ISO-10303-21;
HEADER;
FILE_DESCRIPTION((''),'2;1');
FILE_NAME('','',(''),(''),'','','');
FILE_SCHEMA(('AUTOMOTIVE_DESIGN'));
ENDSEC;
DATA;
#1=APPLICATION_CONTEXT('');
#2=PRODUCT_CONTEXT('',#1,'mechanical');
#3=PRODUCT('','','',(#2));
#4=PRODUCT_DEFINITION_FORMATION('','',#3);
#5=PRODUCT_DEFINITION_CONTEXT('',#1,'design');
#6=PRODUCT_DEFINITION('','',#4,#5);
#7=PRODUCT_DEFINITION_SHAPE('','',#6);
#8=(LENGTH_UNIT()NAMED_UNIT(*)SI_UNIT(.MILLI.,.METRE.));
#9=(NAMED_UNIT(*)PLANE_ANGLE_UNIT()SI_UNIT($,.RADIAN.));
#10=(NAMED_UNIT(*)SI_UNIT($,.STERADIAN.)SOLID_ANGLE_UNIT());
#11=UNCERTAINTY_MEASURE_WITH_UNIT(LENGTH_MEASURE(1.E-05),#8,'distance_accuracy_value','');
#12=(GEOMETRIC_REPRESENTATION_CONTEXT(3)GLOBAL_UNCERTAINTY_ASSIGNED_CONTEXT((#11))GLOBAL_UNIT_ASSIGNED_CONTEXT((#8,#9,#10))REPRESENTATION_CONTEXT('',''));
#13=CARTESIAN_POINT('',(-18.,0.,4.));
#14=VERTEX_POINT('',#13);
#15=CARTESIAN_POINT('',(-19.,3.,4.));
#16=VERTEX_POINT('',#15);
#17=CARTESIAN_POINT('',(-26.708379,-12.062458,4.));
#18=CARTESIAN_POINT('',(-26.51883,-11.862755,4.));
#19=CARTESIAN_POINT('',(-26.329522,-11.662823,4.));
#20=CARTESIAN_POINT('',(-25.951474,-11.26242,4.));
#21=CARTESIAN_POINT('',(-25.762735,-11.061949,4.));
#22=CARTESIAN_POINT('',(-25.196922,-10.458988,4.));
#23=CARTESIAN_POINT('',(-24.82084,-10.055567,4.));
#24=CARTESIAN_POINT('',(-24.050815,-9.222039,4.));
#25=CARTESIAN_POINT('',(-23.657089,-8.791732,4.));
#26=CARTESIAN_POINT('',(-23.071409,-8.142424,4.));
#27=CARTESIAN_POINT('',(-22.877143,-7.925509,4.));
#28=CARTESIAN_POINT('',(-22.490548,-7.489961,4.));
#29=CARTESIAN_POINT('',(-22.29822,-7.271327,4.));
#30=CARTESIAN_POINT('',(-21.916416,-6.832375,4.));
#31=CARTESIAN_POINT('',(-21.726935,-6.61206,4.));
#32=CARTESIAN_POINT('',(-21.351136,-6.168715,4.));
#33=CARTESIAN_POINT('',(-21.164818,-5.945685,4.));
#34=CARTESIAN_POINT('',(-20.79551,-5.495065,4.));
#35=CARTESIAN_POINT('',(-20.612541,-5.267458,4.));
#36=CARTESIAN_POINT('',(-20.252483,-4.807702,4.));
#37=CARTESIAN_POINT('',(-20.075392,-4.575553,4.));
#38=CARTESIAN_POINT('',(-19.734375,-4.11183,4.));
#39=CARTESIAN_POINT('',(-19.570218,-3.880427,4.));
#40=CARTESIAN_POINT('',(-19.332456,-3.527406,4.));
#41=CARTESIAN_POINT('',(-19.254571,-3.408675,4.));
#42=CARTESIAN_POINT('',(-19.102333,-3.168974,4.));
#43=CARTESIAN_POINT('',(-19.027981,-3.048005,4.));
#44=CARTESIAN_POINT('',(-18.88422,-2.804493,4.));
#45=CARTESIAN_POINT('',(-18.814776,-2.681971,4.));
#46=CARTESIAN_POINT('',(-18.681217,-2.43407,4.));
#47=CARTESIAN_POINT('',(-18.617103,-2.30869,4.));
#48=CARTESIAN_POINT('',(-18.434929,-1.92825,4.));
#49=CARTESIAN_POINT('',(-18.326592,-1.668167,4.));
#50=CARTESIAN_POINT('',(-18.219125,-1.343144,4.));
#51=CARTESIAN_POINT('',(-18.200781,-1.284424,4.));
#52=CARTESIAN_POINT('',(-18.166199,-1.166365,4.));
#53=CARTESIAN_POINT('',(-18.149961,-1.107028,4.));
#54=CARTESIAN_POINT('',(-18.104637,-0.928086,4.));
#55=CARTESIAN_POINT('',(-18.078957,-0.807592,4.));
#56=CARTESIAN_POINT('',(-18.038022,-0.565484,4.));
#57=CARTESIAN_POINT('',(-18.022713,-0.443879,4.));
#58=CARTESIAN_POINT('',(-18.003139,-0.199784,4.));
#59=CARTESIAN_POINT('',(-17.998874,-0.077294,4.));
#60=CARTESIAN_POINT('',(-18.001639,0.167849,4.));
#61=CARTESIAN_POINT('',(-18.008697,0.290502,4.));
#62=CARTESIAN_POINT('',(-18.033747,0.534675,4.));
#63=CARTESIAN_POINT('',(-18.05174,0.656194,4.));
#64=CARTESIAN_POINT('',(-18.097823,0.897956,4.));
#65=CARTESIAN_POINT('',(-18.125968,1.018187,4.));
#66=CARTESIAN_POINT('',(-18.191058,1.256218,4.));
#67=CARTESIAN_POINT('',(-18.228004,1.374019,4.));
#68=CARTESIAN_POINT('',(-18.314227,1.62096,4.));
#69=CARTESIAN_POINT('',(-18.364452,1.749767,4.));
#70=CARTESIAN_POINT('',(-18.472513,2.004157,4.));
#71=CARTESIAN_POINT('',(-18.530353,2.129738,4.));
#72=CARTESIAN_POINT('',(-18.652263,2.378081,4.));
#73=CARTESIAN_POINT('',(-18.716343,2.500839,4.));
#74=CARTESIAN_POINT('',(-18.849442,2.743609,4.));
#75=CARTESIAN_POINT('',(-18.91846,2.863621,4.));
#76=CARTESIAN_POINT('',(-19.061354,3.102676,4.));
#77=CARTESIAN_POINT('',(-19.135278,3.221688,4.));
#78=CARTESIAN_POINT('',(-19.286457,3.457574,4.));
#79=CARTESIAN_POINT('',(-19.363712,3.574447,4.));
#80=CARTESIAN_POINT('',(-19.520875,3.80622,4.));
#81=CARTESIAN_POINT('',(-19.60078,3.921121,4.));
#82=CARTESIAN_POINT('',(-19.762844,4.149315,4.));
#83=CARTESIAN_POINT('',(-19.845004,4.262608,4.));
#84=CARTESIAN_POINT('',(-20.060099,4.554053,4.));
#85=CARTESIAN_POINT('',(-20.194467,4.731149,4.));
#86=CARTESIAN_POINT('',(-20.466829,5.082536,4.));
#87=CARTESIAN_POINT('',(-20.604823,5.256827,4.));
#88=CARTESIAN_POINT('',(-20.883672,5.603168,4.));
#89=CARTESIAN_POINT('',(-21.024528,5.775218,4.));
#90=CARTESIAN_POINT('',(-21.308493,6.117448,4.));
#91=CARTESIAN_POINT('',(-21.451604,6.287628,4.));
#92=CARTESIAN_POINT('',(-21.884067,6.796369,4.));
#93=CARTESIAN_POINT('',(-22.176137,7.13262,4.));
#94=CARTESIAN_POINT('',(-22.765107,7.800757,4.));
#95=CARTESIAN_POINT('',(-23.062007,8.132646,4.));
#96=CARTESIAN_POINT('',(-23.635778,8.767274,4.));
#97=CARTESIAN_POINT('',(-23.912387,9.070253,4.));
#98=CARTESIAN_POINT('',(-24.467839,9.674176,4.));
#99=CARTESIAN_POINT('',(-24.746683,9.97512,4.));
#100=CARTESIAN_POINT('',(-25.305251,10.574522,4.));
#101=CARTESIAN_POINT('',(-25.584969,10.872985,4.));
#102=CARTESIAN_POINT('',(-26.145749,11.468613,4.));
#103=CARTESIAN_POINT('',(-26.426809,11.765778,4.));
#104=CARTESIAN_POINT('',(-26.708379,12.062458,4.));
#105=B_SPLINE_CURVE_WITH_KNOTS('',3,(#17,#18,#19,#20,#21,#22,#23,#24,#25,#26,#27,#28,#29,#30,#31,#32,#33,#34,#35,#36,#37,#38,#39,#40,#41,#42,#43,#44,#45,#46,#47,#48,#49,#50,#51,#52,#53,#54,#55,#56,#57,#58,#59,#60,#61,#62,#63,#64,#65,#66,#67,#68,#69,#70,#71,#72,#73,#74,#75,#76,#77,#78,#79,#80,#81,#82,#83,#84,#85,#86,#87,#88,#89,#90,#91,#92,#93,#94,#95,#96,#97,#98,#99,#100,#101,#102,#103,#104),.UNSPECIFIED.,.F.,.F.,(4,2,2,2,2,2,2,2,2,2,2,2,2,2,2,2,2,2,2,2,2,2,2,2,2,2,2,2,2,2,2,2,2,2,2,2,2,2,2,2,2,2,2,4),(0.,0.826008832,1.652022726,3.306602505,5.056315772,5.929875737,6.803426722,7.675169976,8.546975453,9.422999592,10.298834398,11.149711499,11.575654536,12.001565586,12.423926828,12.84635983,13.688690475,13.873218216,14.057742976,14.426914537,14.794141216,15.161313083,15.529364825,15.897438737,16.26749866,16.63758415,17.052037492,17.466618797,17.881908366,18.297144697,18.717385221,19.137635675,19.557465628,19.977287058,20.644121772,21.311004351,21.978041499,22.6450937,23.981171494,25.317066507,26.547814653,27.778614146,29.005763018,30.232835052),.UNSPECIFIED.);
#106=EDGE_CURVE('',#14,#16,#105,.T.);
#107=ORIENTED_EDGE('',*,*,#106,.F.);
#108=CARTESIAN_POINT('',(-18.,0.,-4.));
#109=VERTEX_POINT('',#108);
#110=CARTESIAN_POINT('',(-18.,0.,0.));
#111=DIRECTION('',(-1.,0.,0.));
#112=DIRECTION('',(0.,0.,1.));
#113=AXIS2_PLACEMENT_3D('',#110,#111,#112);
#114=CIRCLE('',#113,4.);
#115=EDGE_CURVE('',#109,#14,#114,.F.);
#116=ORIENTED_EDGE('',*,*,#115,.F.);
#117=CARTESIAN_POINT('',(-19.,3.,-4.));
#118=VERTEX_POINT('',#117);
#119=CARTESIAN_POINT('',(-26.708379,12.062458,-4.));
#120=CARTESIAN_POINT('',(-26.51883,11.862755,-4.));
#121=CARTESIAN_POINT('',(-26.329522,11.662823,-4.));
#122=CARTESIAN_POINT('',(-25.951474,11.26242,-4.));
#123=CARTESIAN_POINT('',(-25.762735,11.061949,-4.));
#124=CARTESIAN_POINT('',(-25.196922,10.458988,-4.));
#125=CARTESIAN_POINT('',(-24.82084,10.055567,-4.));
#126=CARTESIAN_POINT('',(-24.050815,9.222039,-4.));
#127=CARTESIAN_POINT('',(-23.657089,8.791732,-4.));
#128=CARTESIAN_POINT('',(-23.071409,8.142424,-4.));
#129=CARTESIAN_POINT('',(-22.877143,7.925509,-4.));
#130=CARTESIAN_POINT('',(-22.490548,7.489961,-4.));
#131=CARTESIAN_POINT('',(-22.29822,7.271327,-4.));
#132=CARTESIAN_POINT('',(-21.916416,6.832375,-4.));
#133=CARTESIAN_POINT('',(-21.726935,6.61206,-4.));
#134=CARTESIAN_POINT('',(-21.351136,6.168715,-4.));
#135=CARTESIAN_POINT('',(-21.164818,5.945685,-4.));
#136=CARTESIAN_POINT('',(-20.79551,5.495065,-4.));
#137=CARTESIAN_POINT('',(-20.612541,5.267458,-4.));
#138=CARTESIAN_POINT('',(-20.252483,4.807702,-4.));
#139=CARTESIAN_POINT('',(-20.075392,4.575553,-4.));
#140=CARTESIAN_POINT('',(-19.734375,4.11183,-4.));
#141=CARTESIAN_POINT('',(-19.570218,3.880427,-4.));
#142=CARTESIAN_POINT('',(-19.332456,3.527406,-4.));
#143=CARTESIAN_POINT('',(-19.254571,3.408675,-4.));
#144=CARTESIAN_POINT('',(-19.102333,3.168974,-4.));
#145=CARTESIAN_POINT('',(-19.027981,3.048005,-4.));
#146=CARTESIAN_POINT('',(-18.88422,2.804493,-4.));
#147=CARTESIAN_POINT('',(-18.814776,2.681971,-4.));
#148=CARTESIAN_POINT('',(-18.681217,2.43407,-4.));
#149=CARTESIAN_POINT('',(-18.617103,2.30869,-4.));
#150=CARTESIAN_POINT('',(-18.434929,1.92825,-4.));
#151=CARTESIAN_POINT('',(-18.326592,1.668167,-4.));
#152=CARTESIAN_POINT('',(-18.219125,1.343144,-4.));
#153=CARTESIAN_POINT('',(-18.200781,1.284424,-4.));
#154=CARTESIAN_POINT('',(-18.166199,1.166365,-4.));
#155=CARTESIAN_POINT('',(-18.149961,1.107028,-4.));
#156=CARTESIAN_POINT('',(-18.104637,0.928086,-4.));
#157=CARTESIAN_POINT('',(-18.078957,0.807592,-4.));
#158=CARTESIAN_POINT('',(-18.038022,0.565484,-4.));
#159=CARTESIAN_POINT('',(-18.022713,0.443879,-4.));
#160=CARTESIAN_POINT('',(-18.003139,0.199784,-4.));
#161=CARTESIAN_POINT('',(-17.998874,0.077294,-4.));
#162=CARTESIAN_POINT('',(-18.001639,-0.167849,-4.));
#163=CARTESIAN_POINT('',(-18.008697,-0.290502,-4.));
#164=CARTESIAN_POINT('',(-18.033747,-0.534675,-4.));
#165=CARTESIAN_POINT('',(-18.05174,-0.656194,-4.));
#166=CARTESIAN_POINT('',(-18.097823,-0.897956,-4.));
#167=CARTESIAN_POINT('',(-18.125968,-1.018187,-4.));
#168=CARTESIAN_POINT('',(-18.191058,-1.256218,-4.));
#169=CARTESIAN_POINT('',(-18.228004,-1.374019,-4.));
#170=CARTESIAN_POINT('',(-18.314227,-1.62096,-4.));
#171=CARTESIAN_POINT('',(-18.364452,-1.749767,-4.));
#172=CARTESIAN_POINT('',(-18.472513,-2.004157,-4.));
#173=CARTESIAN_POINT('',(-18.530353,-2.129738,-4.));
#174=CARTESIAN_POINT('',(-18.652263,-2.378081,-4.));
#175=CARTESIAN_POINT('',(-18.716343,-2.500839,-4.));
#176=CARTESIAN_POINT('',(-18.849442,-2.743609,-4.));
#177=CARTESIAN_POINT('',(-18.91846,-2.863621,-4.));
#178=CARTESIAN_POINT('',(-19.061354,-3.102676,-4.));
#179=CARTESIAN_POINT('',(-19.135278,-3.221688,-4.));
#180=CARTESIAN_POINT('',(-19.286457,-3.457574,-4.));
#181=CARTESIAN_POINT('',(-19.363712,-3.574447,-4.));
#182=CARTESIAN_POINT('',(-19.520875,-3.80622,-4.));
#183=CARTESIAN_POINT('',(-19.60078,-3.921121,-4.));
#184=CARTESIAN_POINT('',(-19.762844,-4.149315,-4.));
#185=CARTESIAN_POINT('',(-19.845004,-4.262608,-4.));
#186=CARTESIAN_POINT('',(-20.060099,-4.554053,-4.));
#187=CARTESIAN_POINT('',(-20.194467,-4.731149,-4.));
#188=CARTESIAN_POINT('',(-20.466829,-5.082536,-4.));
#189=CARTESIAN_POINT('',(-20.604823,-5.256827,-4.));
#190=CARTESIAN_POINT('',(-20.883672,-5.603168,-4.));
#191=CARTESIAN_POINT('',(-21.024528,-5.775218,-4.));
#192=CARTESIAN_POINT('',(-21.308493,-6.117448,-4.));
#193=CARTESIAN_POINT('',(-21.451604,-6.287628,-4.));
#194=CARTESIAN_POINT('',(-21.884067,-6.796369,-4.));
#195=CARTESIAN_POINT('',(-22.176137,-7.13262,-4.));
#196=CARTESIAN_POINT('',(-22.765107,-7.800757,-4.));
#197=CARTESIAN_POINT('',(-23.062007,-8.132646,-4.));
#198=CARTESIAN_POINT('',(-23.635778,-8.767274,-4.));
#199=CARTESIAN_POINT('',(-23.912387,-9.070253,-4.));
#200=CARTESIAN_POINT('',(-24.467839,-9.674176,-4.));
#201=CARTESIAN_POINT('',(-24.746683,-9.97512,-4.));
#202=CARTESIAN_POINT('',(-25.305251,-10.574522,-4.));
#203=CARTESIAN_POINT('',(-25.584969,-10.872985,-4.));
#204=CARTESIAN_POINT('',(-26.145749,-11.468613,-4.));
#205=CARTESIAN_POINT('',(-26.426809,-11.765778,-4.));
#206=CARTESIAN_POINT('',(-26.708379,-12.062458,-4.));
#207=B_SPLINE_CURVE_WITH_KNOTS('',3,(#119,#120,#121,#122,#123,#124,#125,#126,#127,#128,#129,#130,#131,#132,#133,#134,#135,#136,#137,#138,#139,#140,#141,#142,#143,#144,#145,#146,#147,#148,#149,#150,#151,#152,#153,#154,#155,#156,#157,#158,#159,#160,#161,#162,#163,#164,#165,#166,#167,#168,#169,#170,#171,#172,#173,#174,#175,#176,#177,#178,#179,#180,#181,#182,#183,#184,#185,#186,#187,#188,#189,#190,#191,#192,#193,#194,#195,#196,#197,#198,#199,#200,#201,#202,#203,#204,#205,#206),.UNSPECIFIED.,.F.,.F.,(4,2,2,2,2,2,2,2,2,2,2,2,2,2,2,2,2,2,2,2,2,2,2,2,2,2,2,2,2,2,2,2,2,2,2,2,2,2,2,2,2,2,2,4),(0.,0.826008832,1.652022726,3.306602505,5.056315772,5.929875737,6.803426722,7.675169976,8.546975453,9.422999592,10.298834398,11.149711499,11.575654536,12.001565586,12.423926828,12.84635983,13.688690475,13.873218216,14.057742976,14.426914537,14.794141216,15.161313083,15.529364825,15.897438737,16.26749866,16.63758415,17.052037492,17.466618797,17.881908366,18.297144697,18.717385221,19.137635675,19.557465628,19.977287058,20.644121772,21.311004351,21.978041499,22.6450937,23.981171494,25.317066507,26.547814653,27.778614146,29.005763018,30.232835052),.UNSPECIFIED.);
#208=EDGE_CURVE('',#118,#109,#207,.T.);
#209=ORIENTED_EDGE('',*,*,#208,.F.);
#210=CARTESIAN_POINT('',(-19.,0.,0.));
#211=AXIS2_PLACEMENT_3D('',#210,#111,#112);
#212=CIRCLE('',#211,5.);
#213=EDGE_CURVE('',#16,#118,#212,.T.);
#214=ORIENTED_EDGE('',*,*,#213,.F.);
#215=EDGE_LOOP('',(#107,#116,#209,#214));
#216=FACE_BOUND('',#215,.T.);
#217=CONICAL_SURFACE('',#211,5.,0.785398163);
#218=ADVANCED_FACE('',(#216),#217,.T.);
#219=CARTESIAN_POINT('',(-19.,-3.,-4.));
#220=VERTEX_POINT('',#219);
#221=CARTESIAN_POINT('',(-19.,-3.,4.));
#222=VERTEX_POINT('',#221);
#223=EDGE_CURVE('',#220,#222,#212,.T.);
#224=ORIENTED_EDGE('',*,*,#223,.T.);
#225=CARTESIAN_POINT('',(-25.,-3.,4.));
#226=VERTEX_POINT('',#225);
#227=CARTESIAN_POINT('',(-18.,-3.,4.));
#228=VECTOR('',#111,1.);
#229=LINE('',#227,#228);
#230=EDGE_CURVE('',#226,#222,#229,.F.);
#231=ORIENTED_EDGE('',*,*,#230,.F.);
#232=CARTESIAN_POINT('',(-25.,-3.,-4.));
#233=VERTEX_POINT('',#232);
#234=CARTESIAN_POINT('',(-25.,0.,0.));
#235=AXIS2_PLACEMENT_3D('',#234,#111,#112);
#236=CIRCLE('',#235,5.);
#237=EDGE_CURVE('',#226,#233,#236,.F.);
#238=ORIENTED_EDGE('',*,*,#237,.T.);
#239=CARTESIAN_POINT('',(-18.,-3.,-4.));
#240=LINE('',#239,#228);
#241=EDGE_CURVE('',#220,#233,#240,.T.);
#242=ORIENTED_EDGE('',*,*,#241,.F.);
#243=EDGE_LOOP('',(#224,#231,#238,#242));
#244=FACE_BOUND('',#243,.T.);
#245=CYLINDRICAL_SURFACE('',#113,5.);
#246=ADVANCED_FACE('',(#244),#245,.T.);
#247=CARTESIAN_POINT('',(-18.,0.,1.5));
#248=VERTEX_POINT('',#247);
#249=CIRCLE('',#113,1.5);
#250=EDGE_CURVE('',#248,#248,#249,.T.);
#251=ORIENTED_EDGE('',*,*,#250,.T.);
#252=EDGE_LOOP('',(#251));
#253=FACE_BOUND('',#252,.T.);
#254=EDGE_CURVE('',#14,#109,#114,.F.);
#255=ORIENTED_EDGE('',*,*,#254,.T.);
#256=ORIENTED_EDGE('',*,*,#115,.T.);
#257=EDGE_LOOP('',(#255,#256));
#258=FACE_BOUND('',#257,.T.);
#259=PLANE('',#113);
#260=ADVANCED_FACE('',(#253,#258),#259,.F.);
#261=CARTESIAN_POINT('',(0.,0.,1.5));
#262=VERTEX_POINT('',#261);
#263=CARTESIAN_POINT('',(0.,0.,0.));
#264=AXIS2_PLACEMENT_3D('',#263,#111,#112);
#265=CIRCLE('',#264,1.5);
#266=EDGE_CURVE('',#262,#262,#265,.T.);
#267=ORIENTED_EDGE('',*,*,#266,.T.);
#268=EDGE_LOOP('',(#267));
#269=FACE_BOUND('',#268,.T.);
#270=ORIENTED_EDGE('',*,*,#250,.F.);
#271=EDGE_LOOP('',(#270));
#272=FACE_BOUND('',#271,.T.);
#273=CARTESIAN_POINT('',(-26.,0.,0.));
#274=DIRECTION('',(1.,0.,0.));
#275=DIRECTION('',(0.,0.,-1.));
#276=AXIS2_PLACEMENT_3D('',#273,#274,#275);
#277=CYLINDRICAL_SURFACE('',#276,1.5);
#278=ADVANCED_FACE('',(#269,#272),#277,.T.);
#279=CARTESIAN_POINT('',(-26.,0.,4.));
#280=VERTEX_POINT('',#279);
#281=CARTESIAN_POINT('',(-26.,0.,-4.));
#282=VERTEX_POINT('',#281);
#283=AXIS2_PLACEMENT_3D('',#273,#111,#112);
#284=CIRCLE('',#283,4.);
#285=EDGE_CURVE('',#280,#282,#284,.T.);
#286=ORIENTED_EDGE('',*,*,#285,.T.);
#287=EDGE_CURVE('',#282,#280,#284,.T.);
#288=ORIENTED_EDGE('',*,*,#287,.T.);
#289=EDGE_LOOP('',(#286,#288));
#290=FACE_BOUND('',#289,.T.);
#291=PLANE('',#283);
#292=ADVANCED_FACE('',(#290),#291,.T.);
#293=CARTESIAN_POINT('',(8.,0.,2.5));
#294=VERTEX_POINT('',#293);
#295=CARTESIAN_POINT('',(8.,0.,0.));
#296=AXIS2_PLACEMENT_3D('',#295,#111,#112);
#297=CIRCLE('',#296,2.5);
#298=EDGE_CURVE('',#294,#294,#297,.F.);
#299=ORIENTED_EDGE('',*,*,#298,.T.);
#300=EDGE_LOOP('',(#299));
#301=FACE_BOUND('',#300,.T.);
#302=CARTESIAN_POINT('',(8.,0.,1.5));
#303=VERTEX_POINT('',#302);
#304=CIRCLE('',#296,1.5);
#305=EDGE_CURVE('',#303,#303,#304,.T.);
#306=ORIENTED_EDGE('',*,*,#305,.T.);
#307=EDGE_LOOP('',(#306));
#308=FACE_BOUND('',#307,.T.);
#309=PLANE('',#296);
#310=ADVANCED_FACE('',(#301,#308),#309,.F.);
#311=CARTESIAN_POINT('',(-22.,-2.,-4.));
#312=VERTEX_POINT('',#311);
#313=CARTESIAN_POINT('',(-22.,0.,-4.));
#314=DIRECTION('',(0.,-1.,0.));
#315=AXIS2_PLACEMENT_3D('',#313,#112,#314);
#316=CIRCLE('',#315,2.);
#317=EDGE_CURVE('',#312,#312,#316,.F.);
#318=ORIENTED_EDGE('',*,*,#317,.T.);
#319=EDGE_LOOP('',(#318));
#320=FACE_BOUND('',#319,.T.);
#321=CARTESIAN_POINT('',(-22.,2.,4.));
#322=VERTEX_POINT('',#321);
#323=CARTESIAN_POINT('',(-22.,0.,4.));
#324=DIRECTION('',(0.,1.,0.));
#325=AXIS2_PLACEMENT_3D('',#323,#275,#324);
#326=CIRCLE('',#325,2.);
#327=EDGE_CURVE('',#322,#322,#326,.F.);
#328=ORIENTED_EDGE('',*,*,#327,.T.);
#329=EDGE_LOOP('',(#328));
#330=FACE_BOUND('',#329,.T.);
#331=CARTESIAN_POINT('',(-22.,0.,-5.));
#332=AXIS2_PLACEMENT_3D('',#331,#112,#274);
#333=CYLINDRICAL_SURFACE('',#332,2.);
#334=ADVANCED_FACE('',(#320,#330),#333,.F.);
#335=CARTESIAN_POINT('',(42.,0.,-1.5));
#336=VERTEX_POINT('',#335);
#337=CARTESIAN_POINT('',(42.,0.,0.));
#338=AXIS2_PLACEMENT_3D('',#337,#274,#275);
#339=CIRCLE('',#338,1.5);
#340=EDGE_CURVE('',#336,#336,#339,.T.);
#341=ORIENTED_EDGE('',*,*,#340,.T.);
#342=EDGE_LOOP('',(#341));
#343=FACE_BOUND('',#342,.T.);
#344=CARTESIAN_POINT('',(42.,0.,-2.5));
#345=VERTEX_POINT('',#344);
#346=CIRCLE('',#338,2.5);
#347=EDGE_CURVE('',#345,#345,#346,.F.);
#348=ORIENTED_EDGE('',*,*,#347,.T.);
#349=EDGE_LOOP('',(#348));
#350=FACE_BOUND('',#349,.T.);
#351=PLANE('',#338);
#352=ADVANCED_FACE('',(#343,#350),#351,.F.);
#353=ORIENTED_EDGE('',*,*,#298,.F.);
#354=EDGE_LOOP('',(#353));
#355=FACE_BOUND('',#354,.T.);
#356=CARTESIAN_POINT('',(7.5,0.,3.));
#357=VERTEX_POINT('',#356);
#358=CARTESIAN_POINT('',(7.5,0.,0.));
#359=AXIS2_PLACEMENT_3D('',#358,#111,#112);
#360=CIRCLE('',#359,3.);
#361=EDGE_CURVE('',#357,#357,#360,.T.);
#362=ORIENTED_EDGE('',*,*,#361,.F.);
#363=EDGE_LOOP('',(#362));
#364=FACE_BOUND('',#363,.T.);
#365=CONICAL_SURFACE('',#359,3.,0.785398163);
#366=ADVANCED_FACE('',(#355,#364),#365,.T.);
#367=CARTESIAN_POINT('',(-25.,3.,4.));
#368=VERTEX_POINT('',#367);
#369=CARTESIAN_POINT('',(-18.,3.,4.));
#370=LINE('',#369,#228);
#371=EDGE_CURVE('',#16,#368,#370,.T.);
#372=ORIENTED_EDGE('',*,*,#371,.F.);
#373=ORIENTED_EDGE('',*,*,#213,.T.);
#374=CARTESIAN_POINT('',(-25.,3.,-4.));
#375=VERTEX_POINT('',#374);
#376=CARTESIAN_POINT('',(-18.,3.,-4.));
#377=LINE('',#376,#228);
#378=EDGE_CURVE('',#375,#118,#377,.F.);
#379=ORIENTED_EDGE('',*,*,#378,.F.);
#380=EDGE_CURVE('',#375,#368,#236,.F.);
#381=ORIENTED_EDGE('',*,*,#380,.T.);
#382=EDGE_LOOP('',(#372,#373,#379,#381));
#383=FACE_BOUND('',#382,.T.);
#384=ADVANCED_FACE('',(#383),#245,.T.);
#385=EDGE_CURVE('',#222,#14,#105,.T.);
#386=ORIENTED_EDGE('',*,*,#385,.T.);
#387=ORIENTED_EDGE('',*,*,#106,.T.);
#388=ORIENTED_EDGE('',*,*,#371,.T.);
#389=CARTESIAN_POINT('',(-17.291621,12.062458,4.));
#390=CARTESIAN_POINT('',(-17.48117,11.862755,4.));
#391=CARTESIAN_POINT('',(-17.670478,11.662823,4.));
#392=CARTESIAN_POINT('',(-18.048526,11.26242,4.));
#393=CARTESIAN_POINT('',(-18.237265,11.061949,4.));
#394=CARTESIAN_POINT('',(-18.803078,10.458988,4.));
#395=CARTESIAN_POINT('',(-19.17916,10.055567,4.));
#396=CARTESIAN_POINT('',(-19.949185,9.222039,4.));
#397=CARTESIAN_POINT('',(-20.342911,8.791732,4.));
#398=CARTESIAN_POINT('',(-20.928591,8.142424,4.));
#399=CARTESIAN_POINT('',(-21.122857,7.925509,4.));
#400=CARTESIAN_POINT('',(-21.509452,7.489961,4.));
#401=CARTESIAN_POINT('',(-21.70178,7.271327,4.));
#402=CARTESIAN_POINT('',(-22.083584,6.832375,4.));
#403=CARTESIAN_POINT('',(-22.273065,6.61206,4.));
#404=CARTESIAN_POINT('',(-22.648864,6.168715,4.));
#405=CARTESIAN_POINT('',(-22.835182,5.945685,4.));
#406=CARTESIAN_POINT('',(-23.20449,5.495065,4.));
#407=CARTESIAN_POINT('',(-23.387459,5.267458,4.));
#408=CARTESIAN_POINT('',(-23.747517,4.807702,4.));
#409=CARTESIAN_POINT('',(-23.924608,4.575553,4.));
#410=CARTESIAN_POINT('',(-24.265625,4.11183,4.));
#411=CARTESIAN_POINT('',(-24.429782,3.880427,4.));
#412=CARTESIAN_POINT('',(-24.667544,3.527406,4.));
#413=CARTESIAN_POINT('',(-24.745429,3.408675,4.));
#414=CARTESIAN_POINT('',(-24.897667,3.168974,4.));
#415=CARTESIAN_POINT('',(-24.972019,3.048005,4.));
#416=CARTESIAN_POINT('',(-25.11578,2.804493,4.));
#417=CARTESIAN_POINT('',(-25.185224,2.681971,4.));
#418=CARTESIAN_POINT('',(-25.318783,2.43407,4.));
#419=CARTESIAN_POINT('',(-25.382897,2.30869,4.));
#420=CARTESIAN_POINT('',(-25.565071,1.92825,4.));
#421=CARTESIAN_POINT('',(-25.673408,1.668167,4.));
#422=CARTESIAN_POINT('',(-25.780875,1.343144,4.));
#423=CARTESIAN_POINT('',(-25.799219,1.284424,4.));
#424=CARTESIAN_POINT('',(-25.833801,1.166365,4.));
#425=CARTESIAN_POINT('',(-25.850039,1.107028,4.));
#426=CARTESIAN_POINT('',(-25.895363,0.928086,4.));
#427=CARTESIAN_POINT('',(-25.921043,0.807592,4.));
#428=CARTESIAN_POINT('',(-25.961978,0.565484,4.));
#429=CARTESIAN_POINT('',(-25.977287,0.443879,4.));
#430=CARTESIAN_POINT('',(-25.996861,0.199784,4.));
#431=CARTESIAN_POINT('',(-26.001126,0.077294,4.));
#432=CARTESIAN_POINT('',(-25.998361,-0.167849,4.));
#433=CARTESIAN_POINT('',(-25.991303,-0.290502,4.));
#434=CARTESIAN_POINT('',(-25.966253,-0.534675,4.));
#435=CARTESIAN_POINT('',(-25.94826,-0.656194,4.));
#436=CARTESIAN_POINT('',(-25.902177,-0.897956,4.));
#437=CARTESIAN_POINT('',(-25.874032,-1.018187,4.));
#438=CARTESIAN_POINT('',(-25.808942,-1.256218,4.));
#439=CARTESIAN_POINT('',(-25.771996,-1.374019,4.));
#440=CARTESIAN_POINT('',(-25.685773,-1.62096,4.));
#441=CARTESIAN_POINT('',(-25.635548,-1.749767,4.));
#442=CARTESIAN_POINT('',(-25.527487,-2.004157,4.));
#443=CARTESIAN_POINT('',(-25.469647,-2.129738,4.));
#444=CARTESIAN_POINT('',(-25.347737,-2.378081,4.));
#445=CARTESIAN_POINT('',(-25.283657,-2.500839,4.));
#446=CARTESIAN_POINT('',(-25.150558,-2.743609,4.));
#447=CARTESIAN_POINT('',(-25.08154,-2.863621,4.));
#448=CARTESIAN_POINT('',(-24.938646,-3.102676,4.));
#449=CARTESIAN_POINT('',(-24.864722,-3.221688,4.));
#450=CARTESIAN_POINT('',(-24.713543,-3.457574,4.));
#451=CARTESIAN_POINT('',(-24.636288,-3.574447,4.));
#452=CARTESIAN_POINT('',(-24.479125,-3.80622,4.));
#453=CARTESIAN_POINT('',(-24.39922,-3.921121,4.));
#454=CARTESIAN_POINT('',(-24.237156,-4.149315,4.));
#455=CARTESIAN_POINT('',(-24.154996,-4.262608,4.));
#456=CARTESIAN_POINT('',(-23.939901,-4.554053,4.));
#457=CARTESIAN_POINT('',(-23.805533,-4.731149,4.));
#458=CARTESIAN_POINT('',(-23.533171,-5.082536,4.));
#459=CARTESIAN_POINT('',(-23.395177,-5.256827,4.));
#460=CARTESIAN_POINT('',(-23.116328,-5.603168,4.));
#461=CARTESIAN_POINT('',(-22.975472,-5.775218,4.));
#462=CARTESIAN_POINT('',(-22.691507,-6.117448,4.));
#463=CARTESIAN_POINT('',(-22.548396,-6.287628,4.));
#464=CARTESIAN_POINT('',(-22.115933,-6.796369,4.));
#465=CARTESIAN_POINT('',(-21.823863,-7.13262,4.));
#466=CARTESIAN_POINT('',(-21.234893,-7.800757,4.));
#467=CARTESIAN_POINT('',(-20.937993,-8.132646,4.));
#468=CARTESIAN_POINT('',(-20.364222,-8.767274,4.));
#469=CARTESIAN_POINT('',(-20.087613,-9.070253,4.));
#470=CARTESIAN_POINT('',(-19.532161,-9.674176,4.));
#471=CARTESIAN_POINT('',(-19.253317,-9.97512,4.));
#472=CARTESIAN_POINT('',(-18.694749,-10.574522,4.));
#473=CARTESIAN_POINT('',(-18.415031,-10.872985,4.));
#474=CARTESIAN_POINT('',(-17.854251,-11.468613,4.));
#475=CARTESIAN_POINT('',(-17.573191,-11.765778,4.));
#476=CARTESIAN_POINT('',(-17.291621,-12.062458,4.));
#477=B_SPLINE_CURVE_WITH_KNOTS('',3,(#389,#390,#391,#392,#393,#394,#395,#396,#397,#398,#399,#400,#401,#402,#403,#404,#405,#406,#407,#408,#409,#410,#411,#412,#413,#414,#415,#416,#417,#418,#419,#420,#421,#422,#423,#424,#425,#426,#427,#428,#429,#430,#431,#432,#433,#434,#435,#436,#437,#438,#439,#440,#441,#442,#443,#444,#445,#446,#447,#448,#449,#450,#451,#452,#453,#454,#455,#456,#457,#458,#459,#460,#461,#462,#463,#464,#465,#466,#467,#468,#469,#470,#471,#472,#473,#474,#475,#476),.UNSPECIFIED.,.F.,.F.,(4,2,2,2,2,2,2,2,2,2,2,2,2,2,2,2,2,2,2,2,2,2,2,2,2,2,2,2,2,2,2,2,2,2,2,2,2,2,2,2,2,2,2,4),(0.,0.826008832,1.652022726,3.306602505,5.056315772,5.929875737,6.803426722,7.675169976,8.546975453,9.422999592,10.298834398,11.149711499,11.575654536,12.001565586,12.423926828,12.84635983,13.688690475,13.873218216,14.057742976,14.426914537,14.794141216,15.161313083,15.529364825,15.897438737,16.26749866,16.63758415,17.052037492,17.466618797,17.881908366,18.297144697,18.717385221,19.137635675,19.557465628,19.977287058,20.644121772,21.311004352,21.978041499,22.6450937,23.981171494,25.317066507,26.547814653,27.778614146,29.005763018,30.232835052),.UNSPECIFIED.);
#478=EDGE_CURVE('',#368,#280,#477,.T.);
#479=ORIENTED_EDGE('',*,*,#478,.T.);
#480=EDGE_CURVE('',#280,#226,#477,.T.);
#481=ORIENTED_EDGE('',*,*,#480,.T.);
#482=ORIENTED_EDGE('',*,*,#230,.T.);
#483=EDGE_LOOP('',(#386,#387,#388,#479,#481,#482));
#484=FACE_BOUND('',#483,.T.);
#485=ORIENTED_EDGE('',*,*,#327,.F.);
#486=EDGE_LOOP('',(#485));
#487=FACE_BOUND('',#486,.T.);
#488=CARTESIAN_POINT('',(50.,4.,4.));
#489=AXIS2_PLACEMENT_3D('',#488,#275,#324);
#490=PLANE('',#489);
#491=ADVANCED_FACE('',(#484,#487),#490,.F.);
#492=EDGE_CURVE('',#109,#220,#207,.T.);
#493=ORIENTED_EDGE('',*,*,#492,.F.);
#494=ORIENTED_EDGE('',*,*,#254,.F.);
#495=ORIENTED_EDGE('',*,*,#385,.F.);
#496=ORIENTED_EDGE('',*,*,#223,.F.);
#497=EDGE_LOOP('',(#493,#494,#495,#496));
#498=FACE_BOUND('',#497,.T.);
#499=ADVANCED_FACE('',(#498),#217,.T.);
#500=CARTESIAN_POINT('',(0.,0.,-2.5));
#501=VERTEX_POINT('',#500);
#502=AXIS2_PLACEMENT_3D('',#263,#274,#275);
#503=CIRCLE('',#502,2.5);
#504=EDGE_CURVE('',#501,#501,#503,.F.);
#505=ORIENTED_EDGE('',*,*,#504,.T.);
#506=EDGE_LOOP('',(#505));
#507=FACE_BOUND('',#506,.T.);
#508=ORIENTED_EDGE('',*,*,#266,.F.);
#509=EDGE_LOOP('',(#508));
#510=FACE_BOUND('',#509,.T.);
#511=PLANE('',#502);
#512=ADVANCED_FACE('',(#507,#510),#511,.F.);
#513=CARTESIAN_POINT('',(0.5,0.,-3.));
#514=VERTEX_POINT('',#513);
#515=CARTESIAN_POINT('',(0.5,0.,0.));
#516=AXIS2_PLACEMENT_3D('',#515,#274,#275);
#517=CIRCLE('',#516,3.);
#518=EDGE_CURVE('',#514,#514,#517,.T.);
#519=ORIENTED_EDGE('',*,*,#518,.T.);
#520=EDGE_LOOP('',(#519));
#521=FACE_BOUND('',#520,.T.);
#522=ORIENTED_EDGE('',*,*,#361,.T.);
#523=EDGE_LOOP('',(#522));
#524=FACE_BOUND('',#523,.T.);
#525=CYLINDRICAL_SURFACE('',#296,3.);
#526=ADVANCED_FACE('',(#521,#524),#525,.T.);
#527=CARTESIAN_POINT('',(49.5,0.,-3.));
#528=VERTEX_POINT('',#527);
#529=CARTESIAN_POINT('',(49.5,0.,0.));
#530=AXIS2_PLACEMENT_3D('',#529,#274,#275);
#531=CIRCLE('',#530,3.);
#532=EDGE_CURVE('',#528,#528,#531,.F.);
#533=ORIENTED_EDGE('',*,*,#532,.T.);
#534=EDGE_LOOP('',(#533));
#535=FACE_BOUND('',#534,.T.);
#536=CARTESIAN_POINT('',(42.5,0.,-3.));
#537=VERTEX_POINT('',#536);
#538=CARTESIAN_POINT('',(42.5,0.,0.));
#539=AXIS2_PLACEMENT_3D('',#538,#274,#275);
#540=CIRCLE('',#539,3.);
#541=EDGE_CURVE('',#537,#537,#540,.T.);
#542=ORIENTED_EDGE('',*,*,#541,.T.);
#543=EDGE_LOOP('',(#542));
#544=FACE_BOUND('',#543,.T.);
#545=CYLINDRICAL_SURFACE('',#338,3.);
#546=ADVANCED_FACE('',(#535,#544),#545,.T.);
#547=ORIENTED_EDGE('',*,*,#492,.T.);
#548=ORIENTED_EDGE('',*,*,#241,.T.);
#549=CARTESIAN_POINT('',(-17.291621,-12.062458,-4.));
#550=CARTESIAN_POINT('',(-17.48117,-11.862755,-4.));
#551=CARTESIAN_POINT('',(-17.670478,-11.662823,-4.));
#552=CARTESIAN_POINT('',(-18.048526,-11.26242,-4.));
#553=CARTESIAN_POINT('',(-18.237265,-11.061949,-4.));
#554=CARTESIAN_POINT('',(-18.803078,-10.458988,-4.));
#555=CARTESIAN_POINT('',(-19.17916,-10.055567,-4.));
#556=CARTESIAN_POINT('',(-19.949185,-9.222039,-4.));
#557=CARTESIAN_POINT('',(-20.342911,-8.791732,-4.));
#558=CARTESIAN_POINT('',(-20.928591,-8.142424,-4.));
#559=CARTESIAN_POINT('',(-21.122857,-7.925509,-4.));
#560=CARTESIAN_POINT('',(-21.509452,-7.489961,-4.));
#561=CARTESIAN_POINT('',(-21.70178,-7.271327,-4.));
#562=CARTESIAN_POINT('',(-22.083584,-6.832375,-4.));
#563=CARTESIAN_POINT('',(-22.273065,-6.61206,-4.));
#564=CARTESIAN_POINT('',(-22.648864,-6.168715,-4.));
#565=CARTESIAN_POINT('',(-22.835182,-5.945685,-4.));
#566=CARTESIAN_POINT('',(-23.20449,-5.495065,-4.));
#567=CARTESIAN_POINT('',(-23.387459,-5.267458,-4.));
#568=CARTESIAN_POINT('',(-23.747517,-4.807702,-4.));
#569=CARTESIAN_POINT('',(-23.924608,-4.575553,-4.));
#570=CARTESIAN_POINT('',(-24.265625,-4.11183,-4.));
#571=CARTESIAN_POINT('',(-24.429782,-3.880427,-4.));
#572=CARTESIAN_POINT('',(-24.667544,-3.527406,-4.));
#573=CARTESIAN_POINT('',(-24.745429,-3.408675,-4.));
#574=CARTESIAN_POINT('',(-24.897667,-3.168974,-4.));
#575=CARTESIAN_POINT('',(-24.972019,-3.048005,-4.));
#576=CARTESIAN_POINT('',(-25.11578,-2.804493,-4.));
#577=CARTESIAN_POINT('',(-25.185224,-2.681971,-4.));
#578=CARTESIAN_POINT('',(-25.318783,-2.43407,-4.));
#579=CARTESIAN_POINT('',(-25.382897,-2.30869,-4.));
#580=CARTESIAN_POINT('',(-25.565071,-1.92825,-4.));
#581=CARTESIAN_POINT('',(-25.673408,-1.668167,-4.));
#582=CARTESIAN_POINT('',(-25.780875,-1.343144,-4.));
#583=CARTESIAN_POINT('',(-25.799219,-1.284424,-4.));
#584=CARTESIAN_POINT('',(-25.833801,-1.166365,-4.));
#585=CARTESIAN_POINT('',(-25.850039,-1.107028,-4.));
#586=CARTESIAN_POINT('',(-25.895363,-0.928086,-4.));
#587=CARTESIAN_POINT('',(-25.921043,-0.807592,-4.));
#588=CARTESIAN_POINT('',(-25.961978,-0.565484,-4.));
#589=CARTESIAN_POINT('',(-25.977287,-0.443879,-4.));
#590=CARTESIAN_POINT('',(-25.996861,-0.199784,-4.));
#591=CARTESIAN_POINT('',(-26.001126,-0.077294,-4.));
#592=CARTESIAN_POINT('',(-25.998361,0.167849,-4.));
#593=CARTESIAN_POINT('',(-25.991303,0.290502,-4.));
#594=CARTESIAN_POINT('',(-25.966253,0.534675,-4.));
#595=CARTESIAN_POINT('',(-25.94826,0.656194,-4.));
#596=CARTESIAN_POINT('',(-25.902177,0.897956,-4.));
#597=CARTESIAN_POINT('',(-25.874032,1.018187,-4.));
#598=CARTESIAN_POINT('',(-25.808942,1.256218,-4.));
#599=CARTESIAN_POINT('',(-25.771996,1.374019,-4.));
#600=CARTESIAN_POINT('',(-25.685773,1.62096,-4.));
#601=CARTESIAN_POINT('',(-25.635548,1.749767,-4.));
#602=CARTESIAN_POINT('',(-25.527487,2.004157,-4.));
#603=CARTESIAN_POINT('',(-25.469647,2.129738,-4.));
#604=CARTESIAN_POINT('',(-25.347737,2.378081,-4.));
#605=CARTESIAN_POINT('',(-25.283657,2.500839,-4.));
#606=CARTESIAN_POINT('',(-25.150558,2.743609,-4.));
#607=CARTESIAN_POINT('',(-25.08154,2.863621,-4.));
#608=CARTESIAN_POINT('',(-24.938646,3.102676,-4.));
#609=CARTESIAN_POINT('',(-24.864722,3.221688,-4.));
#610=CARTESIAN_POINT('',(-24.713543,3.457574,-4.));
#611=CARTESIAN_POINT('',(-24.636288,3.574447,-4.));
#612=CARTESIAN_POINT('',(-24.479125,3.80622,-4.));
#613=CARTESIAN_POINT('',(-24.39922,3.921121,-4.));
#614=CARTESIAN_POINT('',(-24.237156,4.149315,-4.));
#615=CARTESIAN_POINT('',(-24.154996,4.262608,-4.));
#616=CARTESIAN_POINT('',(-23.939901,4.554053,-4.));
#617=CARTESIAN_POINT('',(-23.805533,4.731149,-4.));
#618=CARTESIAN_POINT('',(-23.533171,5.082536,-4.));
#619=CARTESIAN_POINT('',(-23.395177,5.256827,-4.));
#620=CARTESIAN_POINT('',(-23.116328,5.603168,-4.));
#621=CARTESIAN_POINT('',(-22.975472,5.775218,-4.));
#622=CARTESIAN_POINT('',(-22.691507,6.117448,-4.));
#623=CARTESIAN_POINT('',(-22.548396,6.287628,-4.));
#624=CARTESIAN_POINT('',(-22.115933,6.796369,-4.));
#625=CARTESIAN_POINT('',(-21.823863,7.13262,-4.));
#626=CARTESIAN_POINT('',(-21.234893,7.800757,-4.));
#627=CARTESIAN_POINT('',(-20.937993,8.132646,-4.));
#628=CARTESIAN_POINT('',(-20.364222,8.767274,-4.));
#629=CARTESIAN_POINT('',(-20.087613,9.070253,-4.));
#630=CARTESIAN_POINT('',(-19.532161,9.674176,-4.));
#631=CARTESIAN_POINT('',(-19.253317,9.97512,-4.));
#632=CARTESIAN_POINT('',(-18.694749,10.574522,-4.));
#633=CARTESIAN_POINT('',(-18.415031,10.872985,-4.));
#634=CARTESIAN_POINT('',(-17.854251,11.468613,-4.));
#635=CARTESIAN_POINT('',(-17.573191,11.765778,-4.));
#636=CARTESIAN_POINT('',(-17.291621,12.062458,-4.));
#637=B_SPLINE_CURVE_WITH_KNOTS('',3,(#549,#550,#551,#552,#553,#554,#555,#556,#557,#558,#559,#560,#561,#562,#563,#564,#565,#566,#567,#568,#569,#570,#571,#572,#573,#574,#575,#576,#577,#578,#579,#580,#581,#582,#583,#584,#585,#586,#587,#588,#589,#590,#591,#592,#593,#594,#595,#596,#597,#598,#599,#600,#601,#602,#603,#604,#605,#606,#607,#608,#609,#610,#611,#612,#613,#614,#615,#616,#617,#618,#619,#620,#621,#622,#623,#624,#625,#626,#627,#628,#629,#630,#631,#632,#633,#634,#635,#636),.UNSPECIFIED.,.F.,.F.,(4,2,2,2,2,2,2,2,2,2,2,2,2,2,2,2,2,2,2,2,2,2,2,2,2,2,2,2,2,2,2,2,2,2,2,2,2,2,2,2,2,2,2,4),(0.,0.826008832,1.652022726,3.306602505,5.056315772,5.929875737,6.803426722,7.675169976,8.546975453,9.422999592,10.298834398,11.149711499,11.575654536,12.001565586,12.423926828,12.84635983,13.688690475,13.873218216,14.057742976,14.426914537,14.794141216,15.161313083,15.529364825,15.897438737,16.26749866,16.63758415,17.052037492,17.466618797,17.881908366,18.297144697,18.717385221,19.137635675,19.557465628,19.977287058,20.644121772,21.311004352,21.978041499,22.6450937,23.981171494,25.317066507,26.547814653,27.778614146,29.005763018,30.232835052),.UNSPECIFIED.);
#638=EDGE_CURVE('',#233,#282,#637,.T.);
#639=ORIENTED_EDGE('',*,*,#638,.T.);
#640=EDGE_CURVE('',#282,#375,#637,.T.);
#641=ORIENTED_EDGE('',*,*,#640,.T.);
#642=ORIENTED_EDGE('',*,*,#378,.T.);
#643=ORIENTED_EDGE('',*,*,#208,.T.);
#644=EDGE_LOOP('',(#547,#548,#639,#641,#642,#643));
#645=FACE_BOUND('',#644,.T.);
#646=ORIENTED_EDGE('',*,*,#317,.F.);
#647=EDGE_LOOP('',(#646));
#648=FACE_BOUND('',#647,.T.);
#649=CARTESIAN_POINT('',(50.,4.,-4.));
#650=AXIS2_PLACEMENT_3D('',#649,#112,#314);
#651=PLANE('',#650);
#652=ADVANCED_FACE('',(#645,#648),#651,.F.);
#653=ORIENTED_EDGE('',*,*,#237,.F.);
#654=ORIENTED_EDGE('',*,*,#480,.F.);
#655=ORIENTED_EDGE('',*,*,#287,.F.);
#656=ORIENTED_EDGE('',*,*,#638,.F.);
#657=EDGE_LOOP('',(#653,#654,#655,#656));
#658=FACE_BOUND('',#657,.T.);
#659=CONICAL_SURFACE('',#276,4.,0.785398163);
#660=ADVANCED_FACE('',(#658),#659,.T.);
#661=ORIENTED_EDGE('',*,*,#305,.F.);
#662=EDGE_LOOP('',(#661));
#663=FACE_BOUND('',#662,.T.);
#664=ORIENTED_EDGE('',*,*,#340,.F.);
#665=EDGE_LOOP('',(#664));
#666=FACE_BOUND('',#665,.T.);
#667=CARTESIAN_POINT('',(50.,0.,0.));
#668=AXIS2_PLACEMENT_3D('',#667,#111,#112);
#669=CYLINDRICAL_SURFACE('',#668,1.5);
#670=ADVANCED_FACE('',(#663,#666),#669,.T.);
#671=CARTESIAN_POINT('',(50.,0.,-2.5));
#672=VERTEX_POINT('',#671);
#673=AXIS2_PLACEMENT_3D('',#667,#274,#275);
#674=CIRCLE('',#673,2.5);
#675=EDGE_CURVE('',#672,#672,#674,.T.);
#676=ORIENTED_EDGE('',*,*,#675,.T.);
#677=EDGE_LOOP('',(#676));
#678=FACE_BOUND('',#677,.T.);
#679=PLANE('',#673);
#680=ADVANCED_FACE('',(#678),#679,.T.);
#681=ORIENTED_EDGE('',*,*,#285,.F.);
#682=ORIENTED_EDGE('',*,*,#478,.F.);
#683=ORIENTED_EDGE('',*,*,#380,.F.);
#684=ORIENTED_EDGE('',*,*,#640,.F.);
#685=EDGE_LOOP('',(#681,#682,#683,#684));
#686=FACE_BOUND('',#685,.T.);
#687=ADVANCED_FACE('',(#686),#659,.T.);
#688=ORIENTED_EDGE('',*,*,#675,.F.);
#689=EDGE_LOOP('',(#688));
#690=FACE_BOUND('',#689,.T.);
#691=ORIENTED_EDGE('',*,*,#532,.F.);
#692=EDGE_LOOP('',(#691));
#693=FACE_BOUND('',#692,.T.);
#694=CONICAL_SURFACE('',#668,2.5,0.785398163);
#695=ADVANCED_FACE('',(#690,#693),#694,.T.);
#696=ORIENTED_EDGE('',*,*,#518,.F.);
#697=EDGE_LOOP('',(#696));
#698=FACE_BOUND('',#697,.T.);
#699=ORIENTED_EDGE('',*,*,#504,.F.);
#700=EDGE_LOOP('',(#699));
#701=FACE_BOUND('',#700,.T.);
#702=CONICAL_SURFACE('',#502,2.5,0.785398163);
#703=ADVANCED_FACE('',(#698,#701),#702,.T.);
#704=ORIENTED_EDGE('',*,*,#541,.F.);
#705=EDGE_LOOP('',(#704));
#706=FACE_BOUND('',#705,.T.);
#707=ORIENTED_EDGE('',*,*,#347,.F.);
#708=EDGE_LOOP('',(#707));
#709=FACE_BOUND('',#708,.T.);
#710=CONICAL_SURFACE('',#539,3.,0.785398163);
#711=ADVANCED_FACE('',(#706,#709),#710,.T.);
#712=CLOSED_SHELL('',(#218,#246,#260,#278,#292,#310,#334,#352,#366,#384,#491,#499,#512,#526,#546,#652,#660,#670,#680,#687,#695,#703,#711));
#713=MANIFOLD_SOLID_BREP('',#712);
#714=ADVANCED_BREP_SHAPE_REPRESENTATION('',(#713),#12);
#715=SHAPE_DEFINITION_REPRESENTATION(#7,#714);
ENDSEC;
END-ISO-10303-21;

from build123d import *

# Parameters (mm, degrees)
SKETCH1_R               = 1.5
BOSS_EXTRUDE1_DEPTH     = 50
SKETCH2_R               = 3
BOSS_EXTRUDE2_DEPTH     = 8
CHAMFER1_SIZE           = 0.5
SKETCH3_R               = 3
BOSS_EXTRUDE4_DEPTH     = 8
CHAMFER2_SIZE           = 0.5
SKETCH5_R               = 1.5
BOSS_EXTRUDE5_DEPTH     = 26
SKETCH6_R               = 5
BOSS_EXTRUDE6_DEPTH     = 8
SKETCH7_R               = 2
CUT_EXTRUDE1_DEPTH      = 6
CUT_EXTRUDE1_DEPTH_BACK = 6
CHAMFER3_SIZE           = 1
CUT_EXTRUDE2_DEPTH      = 1
CUT_EXTRUDE2_DEPTH_BACK = 77


with BuildPart() as part:
    # Sketch1 → Boss-Extrude1 (new body)
    with BuildSketch(Plane(origin=(0, 0, 0), x_dir=(0, 0, -1), z_dir=(1, 0, 0))):
        Circle(SKETCH1_R)
    extrude(amount=BOSS_EXTRUDE1_DEPTH)

    # Sketch2 → Boss-Extrude2 (add)
    with BuildSketch(Plane(origin=(50, 0, 0), x_dir=(0, 0, -1), z_dir=(1, 0, 0))):
        Circle(SKETCH2_R)
    extrude(amount=-BOSS_EXTRUDE2_DEPTH)

    # Chamfer1
    chamfer1_edges = [part.edges().sort_by_distance(p)[0] for p in [
        (42, 0, 3),
        (50, 0, 3),
    ]]
    chamfer(chamfer1_edges, length=CHAMFER1_SIZE)

    # Sketch3 → Boss-Extrude4 (add)
    with BuildSketch(Plane.ZY):
        Circle(SKETCH3_R)
    extrude(amount=-BOSS_EXTRUDE4_DEPTH)

    # Chamfer2
    chamfer2_edges = [part.edges().sort_by_distance(p)[0] for p in [
        (8, 0, -3),
        (0, 0, -3),
    ]]
    chamfer(chamfer2_edges, length=CHAMFER2_SIZE)

    # Sketch5 → Boss-Extrude5 (add)
    with BuildSketch(Plane.ZY):
        Circle(SKETCH5_R)
    extrude(amount=BOSS_EXTRUDE5_DEPTH)

    # Sketch6 → Boss-Extrude6 (add)
    with BuildSketch(Plane.ZY.offset(26)):
        Circle(SKETCH6_R)
    extrude(amount=-BOSS_EXTRUDE6_DEPTH)

    # Sketch7 → Cut-Extrude1 (cut, two sides)
    with BuildSketch(Plane.XY) as cut_extrude1_sk:
        with Locations((-22, 0)):
            Circle(SKETCH7_R)
    extrude(amount=CUT_EXTRUDE1_DEPTH, mode=Mode.SUBTRACT)
    extrude(cut_extrude1_sk.sketch, amount=-CUT_EXTRUDE1_DEPTH_BACK, mode=Mode.SUBTRACT)

    # Chamfer3
    chamfer3_edges = [part.edges().sort_by_distance(p)[0] for p in [
        (-18, 0, -5),
        (-26, 0, -5),
    ]]
    chamfer(chamfer3_edges, length=CHAMFER3_SIZE)

    # Sketch8 → Cut-Extrude2 (cut, two sides)
    with BuildSketch(Plane.ZY.offset(26)) as cut_extrude2_sk:
        with BuildLine():
            Line((-4, 4), (-4, -4))
            ThreePointArc((-4, -4), (-5.656854249, 0), (-4, 4))
        make_face()
        with BuildLine():
            Line((4, 4), (4, -4))
            ThreePointArc((4, -4), (5.656854249, 0), (4, 4))
        make_face()
    extrude(amount=CUT_EXTRUDE2_DEPTH, mode=Mode.SUBTRACT)
    extrude(cut_extrude2_sk.sketch, amount=-CUT_EXTRUDE2_DEPTH_BACK, mode=Mode.SUBTRACT)


solid = part.part
